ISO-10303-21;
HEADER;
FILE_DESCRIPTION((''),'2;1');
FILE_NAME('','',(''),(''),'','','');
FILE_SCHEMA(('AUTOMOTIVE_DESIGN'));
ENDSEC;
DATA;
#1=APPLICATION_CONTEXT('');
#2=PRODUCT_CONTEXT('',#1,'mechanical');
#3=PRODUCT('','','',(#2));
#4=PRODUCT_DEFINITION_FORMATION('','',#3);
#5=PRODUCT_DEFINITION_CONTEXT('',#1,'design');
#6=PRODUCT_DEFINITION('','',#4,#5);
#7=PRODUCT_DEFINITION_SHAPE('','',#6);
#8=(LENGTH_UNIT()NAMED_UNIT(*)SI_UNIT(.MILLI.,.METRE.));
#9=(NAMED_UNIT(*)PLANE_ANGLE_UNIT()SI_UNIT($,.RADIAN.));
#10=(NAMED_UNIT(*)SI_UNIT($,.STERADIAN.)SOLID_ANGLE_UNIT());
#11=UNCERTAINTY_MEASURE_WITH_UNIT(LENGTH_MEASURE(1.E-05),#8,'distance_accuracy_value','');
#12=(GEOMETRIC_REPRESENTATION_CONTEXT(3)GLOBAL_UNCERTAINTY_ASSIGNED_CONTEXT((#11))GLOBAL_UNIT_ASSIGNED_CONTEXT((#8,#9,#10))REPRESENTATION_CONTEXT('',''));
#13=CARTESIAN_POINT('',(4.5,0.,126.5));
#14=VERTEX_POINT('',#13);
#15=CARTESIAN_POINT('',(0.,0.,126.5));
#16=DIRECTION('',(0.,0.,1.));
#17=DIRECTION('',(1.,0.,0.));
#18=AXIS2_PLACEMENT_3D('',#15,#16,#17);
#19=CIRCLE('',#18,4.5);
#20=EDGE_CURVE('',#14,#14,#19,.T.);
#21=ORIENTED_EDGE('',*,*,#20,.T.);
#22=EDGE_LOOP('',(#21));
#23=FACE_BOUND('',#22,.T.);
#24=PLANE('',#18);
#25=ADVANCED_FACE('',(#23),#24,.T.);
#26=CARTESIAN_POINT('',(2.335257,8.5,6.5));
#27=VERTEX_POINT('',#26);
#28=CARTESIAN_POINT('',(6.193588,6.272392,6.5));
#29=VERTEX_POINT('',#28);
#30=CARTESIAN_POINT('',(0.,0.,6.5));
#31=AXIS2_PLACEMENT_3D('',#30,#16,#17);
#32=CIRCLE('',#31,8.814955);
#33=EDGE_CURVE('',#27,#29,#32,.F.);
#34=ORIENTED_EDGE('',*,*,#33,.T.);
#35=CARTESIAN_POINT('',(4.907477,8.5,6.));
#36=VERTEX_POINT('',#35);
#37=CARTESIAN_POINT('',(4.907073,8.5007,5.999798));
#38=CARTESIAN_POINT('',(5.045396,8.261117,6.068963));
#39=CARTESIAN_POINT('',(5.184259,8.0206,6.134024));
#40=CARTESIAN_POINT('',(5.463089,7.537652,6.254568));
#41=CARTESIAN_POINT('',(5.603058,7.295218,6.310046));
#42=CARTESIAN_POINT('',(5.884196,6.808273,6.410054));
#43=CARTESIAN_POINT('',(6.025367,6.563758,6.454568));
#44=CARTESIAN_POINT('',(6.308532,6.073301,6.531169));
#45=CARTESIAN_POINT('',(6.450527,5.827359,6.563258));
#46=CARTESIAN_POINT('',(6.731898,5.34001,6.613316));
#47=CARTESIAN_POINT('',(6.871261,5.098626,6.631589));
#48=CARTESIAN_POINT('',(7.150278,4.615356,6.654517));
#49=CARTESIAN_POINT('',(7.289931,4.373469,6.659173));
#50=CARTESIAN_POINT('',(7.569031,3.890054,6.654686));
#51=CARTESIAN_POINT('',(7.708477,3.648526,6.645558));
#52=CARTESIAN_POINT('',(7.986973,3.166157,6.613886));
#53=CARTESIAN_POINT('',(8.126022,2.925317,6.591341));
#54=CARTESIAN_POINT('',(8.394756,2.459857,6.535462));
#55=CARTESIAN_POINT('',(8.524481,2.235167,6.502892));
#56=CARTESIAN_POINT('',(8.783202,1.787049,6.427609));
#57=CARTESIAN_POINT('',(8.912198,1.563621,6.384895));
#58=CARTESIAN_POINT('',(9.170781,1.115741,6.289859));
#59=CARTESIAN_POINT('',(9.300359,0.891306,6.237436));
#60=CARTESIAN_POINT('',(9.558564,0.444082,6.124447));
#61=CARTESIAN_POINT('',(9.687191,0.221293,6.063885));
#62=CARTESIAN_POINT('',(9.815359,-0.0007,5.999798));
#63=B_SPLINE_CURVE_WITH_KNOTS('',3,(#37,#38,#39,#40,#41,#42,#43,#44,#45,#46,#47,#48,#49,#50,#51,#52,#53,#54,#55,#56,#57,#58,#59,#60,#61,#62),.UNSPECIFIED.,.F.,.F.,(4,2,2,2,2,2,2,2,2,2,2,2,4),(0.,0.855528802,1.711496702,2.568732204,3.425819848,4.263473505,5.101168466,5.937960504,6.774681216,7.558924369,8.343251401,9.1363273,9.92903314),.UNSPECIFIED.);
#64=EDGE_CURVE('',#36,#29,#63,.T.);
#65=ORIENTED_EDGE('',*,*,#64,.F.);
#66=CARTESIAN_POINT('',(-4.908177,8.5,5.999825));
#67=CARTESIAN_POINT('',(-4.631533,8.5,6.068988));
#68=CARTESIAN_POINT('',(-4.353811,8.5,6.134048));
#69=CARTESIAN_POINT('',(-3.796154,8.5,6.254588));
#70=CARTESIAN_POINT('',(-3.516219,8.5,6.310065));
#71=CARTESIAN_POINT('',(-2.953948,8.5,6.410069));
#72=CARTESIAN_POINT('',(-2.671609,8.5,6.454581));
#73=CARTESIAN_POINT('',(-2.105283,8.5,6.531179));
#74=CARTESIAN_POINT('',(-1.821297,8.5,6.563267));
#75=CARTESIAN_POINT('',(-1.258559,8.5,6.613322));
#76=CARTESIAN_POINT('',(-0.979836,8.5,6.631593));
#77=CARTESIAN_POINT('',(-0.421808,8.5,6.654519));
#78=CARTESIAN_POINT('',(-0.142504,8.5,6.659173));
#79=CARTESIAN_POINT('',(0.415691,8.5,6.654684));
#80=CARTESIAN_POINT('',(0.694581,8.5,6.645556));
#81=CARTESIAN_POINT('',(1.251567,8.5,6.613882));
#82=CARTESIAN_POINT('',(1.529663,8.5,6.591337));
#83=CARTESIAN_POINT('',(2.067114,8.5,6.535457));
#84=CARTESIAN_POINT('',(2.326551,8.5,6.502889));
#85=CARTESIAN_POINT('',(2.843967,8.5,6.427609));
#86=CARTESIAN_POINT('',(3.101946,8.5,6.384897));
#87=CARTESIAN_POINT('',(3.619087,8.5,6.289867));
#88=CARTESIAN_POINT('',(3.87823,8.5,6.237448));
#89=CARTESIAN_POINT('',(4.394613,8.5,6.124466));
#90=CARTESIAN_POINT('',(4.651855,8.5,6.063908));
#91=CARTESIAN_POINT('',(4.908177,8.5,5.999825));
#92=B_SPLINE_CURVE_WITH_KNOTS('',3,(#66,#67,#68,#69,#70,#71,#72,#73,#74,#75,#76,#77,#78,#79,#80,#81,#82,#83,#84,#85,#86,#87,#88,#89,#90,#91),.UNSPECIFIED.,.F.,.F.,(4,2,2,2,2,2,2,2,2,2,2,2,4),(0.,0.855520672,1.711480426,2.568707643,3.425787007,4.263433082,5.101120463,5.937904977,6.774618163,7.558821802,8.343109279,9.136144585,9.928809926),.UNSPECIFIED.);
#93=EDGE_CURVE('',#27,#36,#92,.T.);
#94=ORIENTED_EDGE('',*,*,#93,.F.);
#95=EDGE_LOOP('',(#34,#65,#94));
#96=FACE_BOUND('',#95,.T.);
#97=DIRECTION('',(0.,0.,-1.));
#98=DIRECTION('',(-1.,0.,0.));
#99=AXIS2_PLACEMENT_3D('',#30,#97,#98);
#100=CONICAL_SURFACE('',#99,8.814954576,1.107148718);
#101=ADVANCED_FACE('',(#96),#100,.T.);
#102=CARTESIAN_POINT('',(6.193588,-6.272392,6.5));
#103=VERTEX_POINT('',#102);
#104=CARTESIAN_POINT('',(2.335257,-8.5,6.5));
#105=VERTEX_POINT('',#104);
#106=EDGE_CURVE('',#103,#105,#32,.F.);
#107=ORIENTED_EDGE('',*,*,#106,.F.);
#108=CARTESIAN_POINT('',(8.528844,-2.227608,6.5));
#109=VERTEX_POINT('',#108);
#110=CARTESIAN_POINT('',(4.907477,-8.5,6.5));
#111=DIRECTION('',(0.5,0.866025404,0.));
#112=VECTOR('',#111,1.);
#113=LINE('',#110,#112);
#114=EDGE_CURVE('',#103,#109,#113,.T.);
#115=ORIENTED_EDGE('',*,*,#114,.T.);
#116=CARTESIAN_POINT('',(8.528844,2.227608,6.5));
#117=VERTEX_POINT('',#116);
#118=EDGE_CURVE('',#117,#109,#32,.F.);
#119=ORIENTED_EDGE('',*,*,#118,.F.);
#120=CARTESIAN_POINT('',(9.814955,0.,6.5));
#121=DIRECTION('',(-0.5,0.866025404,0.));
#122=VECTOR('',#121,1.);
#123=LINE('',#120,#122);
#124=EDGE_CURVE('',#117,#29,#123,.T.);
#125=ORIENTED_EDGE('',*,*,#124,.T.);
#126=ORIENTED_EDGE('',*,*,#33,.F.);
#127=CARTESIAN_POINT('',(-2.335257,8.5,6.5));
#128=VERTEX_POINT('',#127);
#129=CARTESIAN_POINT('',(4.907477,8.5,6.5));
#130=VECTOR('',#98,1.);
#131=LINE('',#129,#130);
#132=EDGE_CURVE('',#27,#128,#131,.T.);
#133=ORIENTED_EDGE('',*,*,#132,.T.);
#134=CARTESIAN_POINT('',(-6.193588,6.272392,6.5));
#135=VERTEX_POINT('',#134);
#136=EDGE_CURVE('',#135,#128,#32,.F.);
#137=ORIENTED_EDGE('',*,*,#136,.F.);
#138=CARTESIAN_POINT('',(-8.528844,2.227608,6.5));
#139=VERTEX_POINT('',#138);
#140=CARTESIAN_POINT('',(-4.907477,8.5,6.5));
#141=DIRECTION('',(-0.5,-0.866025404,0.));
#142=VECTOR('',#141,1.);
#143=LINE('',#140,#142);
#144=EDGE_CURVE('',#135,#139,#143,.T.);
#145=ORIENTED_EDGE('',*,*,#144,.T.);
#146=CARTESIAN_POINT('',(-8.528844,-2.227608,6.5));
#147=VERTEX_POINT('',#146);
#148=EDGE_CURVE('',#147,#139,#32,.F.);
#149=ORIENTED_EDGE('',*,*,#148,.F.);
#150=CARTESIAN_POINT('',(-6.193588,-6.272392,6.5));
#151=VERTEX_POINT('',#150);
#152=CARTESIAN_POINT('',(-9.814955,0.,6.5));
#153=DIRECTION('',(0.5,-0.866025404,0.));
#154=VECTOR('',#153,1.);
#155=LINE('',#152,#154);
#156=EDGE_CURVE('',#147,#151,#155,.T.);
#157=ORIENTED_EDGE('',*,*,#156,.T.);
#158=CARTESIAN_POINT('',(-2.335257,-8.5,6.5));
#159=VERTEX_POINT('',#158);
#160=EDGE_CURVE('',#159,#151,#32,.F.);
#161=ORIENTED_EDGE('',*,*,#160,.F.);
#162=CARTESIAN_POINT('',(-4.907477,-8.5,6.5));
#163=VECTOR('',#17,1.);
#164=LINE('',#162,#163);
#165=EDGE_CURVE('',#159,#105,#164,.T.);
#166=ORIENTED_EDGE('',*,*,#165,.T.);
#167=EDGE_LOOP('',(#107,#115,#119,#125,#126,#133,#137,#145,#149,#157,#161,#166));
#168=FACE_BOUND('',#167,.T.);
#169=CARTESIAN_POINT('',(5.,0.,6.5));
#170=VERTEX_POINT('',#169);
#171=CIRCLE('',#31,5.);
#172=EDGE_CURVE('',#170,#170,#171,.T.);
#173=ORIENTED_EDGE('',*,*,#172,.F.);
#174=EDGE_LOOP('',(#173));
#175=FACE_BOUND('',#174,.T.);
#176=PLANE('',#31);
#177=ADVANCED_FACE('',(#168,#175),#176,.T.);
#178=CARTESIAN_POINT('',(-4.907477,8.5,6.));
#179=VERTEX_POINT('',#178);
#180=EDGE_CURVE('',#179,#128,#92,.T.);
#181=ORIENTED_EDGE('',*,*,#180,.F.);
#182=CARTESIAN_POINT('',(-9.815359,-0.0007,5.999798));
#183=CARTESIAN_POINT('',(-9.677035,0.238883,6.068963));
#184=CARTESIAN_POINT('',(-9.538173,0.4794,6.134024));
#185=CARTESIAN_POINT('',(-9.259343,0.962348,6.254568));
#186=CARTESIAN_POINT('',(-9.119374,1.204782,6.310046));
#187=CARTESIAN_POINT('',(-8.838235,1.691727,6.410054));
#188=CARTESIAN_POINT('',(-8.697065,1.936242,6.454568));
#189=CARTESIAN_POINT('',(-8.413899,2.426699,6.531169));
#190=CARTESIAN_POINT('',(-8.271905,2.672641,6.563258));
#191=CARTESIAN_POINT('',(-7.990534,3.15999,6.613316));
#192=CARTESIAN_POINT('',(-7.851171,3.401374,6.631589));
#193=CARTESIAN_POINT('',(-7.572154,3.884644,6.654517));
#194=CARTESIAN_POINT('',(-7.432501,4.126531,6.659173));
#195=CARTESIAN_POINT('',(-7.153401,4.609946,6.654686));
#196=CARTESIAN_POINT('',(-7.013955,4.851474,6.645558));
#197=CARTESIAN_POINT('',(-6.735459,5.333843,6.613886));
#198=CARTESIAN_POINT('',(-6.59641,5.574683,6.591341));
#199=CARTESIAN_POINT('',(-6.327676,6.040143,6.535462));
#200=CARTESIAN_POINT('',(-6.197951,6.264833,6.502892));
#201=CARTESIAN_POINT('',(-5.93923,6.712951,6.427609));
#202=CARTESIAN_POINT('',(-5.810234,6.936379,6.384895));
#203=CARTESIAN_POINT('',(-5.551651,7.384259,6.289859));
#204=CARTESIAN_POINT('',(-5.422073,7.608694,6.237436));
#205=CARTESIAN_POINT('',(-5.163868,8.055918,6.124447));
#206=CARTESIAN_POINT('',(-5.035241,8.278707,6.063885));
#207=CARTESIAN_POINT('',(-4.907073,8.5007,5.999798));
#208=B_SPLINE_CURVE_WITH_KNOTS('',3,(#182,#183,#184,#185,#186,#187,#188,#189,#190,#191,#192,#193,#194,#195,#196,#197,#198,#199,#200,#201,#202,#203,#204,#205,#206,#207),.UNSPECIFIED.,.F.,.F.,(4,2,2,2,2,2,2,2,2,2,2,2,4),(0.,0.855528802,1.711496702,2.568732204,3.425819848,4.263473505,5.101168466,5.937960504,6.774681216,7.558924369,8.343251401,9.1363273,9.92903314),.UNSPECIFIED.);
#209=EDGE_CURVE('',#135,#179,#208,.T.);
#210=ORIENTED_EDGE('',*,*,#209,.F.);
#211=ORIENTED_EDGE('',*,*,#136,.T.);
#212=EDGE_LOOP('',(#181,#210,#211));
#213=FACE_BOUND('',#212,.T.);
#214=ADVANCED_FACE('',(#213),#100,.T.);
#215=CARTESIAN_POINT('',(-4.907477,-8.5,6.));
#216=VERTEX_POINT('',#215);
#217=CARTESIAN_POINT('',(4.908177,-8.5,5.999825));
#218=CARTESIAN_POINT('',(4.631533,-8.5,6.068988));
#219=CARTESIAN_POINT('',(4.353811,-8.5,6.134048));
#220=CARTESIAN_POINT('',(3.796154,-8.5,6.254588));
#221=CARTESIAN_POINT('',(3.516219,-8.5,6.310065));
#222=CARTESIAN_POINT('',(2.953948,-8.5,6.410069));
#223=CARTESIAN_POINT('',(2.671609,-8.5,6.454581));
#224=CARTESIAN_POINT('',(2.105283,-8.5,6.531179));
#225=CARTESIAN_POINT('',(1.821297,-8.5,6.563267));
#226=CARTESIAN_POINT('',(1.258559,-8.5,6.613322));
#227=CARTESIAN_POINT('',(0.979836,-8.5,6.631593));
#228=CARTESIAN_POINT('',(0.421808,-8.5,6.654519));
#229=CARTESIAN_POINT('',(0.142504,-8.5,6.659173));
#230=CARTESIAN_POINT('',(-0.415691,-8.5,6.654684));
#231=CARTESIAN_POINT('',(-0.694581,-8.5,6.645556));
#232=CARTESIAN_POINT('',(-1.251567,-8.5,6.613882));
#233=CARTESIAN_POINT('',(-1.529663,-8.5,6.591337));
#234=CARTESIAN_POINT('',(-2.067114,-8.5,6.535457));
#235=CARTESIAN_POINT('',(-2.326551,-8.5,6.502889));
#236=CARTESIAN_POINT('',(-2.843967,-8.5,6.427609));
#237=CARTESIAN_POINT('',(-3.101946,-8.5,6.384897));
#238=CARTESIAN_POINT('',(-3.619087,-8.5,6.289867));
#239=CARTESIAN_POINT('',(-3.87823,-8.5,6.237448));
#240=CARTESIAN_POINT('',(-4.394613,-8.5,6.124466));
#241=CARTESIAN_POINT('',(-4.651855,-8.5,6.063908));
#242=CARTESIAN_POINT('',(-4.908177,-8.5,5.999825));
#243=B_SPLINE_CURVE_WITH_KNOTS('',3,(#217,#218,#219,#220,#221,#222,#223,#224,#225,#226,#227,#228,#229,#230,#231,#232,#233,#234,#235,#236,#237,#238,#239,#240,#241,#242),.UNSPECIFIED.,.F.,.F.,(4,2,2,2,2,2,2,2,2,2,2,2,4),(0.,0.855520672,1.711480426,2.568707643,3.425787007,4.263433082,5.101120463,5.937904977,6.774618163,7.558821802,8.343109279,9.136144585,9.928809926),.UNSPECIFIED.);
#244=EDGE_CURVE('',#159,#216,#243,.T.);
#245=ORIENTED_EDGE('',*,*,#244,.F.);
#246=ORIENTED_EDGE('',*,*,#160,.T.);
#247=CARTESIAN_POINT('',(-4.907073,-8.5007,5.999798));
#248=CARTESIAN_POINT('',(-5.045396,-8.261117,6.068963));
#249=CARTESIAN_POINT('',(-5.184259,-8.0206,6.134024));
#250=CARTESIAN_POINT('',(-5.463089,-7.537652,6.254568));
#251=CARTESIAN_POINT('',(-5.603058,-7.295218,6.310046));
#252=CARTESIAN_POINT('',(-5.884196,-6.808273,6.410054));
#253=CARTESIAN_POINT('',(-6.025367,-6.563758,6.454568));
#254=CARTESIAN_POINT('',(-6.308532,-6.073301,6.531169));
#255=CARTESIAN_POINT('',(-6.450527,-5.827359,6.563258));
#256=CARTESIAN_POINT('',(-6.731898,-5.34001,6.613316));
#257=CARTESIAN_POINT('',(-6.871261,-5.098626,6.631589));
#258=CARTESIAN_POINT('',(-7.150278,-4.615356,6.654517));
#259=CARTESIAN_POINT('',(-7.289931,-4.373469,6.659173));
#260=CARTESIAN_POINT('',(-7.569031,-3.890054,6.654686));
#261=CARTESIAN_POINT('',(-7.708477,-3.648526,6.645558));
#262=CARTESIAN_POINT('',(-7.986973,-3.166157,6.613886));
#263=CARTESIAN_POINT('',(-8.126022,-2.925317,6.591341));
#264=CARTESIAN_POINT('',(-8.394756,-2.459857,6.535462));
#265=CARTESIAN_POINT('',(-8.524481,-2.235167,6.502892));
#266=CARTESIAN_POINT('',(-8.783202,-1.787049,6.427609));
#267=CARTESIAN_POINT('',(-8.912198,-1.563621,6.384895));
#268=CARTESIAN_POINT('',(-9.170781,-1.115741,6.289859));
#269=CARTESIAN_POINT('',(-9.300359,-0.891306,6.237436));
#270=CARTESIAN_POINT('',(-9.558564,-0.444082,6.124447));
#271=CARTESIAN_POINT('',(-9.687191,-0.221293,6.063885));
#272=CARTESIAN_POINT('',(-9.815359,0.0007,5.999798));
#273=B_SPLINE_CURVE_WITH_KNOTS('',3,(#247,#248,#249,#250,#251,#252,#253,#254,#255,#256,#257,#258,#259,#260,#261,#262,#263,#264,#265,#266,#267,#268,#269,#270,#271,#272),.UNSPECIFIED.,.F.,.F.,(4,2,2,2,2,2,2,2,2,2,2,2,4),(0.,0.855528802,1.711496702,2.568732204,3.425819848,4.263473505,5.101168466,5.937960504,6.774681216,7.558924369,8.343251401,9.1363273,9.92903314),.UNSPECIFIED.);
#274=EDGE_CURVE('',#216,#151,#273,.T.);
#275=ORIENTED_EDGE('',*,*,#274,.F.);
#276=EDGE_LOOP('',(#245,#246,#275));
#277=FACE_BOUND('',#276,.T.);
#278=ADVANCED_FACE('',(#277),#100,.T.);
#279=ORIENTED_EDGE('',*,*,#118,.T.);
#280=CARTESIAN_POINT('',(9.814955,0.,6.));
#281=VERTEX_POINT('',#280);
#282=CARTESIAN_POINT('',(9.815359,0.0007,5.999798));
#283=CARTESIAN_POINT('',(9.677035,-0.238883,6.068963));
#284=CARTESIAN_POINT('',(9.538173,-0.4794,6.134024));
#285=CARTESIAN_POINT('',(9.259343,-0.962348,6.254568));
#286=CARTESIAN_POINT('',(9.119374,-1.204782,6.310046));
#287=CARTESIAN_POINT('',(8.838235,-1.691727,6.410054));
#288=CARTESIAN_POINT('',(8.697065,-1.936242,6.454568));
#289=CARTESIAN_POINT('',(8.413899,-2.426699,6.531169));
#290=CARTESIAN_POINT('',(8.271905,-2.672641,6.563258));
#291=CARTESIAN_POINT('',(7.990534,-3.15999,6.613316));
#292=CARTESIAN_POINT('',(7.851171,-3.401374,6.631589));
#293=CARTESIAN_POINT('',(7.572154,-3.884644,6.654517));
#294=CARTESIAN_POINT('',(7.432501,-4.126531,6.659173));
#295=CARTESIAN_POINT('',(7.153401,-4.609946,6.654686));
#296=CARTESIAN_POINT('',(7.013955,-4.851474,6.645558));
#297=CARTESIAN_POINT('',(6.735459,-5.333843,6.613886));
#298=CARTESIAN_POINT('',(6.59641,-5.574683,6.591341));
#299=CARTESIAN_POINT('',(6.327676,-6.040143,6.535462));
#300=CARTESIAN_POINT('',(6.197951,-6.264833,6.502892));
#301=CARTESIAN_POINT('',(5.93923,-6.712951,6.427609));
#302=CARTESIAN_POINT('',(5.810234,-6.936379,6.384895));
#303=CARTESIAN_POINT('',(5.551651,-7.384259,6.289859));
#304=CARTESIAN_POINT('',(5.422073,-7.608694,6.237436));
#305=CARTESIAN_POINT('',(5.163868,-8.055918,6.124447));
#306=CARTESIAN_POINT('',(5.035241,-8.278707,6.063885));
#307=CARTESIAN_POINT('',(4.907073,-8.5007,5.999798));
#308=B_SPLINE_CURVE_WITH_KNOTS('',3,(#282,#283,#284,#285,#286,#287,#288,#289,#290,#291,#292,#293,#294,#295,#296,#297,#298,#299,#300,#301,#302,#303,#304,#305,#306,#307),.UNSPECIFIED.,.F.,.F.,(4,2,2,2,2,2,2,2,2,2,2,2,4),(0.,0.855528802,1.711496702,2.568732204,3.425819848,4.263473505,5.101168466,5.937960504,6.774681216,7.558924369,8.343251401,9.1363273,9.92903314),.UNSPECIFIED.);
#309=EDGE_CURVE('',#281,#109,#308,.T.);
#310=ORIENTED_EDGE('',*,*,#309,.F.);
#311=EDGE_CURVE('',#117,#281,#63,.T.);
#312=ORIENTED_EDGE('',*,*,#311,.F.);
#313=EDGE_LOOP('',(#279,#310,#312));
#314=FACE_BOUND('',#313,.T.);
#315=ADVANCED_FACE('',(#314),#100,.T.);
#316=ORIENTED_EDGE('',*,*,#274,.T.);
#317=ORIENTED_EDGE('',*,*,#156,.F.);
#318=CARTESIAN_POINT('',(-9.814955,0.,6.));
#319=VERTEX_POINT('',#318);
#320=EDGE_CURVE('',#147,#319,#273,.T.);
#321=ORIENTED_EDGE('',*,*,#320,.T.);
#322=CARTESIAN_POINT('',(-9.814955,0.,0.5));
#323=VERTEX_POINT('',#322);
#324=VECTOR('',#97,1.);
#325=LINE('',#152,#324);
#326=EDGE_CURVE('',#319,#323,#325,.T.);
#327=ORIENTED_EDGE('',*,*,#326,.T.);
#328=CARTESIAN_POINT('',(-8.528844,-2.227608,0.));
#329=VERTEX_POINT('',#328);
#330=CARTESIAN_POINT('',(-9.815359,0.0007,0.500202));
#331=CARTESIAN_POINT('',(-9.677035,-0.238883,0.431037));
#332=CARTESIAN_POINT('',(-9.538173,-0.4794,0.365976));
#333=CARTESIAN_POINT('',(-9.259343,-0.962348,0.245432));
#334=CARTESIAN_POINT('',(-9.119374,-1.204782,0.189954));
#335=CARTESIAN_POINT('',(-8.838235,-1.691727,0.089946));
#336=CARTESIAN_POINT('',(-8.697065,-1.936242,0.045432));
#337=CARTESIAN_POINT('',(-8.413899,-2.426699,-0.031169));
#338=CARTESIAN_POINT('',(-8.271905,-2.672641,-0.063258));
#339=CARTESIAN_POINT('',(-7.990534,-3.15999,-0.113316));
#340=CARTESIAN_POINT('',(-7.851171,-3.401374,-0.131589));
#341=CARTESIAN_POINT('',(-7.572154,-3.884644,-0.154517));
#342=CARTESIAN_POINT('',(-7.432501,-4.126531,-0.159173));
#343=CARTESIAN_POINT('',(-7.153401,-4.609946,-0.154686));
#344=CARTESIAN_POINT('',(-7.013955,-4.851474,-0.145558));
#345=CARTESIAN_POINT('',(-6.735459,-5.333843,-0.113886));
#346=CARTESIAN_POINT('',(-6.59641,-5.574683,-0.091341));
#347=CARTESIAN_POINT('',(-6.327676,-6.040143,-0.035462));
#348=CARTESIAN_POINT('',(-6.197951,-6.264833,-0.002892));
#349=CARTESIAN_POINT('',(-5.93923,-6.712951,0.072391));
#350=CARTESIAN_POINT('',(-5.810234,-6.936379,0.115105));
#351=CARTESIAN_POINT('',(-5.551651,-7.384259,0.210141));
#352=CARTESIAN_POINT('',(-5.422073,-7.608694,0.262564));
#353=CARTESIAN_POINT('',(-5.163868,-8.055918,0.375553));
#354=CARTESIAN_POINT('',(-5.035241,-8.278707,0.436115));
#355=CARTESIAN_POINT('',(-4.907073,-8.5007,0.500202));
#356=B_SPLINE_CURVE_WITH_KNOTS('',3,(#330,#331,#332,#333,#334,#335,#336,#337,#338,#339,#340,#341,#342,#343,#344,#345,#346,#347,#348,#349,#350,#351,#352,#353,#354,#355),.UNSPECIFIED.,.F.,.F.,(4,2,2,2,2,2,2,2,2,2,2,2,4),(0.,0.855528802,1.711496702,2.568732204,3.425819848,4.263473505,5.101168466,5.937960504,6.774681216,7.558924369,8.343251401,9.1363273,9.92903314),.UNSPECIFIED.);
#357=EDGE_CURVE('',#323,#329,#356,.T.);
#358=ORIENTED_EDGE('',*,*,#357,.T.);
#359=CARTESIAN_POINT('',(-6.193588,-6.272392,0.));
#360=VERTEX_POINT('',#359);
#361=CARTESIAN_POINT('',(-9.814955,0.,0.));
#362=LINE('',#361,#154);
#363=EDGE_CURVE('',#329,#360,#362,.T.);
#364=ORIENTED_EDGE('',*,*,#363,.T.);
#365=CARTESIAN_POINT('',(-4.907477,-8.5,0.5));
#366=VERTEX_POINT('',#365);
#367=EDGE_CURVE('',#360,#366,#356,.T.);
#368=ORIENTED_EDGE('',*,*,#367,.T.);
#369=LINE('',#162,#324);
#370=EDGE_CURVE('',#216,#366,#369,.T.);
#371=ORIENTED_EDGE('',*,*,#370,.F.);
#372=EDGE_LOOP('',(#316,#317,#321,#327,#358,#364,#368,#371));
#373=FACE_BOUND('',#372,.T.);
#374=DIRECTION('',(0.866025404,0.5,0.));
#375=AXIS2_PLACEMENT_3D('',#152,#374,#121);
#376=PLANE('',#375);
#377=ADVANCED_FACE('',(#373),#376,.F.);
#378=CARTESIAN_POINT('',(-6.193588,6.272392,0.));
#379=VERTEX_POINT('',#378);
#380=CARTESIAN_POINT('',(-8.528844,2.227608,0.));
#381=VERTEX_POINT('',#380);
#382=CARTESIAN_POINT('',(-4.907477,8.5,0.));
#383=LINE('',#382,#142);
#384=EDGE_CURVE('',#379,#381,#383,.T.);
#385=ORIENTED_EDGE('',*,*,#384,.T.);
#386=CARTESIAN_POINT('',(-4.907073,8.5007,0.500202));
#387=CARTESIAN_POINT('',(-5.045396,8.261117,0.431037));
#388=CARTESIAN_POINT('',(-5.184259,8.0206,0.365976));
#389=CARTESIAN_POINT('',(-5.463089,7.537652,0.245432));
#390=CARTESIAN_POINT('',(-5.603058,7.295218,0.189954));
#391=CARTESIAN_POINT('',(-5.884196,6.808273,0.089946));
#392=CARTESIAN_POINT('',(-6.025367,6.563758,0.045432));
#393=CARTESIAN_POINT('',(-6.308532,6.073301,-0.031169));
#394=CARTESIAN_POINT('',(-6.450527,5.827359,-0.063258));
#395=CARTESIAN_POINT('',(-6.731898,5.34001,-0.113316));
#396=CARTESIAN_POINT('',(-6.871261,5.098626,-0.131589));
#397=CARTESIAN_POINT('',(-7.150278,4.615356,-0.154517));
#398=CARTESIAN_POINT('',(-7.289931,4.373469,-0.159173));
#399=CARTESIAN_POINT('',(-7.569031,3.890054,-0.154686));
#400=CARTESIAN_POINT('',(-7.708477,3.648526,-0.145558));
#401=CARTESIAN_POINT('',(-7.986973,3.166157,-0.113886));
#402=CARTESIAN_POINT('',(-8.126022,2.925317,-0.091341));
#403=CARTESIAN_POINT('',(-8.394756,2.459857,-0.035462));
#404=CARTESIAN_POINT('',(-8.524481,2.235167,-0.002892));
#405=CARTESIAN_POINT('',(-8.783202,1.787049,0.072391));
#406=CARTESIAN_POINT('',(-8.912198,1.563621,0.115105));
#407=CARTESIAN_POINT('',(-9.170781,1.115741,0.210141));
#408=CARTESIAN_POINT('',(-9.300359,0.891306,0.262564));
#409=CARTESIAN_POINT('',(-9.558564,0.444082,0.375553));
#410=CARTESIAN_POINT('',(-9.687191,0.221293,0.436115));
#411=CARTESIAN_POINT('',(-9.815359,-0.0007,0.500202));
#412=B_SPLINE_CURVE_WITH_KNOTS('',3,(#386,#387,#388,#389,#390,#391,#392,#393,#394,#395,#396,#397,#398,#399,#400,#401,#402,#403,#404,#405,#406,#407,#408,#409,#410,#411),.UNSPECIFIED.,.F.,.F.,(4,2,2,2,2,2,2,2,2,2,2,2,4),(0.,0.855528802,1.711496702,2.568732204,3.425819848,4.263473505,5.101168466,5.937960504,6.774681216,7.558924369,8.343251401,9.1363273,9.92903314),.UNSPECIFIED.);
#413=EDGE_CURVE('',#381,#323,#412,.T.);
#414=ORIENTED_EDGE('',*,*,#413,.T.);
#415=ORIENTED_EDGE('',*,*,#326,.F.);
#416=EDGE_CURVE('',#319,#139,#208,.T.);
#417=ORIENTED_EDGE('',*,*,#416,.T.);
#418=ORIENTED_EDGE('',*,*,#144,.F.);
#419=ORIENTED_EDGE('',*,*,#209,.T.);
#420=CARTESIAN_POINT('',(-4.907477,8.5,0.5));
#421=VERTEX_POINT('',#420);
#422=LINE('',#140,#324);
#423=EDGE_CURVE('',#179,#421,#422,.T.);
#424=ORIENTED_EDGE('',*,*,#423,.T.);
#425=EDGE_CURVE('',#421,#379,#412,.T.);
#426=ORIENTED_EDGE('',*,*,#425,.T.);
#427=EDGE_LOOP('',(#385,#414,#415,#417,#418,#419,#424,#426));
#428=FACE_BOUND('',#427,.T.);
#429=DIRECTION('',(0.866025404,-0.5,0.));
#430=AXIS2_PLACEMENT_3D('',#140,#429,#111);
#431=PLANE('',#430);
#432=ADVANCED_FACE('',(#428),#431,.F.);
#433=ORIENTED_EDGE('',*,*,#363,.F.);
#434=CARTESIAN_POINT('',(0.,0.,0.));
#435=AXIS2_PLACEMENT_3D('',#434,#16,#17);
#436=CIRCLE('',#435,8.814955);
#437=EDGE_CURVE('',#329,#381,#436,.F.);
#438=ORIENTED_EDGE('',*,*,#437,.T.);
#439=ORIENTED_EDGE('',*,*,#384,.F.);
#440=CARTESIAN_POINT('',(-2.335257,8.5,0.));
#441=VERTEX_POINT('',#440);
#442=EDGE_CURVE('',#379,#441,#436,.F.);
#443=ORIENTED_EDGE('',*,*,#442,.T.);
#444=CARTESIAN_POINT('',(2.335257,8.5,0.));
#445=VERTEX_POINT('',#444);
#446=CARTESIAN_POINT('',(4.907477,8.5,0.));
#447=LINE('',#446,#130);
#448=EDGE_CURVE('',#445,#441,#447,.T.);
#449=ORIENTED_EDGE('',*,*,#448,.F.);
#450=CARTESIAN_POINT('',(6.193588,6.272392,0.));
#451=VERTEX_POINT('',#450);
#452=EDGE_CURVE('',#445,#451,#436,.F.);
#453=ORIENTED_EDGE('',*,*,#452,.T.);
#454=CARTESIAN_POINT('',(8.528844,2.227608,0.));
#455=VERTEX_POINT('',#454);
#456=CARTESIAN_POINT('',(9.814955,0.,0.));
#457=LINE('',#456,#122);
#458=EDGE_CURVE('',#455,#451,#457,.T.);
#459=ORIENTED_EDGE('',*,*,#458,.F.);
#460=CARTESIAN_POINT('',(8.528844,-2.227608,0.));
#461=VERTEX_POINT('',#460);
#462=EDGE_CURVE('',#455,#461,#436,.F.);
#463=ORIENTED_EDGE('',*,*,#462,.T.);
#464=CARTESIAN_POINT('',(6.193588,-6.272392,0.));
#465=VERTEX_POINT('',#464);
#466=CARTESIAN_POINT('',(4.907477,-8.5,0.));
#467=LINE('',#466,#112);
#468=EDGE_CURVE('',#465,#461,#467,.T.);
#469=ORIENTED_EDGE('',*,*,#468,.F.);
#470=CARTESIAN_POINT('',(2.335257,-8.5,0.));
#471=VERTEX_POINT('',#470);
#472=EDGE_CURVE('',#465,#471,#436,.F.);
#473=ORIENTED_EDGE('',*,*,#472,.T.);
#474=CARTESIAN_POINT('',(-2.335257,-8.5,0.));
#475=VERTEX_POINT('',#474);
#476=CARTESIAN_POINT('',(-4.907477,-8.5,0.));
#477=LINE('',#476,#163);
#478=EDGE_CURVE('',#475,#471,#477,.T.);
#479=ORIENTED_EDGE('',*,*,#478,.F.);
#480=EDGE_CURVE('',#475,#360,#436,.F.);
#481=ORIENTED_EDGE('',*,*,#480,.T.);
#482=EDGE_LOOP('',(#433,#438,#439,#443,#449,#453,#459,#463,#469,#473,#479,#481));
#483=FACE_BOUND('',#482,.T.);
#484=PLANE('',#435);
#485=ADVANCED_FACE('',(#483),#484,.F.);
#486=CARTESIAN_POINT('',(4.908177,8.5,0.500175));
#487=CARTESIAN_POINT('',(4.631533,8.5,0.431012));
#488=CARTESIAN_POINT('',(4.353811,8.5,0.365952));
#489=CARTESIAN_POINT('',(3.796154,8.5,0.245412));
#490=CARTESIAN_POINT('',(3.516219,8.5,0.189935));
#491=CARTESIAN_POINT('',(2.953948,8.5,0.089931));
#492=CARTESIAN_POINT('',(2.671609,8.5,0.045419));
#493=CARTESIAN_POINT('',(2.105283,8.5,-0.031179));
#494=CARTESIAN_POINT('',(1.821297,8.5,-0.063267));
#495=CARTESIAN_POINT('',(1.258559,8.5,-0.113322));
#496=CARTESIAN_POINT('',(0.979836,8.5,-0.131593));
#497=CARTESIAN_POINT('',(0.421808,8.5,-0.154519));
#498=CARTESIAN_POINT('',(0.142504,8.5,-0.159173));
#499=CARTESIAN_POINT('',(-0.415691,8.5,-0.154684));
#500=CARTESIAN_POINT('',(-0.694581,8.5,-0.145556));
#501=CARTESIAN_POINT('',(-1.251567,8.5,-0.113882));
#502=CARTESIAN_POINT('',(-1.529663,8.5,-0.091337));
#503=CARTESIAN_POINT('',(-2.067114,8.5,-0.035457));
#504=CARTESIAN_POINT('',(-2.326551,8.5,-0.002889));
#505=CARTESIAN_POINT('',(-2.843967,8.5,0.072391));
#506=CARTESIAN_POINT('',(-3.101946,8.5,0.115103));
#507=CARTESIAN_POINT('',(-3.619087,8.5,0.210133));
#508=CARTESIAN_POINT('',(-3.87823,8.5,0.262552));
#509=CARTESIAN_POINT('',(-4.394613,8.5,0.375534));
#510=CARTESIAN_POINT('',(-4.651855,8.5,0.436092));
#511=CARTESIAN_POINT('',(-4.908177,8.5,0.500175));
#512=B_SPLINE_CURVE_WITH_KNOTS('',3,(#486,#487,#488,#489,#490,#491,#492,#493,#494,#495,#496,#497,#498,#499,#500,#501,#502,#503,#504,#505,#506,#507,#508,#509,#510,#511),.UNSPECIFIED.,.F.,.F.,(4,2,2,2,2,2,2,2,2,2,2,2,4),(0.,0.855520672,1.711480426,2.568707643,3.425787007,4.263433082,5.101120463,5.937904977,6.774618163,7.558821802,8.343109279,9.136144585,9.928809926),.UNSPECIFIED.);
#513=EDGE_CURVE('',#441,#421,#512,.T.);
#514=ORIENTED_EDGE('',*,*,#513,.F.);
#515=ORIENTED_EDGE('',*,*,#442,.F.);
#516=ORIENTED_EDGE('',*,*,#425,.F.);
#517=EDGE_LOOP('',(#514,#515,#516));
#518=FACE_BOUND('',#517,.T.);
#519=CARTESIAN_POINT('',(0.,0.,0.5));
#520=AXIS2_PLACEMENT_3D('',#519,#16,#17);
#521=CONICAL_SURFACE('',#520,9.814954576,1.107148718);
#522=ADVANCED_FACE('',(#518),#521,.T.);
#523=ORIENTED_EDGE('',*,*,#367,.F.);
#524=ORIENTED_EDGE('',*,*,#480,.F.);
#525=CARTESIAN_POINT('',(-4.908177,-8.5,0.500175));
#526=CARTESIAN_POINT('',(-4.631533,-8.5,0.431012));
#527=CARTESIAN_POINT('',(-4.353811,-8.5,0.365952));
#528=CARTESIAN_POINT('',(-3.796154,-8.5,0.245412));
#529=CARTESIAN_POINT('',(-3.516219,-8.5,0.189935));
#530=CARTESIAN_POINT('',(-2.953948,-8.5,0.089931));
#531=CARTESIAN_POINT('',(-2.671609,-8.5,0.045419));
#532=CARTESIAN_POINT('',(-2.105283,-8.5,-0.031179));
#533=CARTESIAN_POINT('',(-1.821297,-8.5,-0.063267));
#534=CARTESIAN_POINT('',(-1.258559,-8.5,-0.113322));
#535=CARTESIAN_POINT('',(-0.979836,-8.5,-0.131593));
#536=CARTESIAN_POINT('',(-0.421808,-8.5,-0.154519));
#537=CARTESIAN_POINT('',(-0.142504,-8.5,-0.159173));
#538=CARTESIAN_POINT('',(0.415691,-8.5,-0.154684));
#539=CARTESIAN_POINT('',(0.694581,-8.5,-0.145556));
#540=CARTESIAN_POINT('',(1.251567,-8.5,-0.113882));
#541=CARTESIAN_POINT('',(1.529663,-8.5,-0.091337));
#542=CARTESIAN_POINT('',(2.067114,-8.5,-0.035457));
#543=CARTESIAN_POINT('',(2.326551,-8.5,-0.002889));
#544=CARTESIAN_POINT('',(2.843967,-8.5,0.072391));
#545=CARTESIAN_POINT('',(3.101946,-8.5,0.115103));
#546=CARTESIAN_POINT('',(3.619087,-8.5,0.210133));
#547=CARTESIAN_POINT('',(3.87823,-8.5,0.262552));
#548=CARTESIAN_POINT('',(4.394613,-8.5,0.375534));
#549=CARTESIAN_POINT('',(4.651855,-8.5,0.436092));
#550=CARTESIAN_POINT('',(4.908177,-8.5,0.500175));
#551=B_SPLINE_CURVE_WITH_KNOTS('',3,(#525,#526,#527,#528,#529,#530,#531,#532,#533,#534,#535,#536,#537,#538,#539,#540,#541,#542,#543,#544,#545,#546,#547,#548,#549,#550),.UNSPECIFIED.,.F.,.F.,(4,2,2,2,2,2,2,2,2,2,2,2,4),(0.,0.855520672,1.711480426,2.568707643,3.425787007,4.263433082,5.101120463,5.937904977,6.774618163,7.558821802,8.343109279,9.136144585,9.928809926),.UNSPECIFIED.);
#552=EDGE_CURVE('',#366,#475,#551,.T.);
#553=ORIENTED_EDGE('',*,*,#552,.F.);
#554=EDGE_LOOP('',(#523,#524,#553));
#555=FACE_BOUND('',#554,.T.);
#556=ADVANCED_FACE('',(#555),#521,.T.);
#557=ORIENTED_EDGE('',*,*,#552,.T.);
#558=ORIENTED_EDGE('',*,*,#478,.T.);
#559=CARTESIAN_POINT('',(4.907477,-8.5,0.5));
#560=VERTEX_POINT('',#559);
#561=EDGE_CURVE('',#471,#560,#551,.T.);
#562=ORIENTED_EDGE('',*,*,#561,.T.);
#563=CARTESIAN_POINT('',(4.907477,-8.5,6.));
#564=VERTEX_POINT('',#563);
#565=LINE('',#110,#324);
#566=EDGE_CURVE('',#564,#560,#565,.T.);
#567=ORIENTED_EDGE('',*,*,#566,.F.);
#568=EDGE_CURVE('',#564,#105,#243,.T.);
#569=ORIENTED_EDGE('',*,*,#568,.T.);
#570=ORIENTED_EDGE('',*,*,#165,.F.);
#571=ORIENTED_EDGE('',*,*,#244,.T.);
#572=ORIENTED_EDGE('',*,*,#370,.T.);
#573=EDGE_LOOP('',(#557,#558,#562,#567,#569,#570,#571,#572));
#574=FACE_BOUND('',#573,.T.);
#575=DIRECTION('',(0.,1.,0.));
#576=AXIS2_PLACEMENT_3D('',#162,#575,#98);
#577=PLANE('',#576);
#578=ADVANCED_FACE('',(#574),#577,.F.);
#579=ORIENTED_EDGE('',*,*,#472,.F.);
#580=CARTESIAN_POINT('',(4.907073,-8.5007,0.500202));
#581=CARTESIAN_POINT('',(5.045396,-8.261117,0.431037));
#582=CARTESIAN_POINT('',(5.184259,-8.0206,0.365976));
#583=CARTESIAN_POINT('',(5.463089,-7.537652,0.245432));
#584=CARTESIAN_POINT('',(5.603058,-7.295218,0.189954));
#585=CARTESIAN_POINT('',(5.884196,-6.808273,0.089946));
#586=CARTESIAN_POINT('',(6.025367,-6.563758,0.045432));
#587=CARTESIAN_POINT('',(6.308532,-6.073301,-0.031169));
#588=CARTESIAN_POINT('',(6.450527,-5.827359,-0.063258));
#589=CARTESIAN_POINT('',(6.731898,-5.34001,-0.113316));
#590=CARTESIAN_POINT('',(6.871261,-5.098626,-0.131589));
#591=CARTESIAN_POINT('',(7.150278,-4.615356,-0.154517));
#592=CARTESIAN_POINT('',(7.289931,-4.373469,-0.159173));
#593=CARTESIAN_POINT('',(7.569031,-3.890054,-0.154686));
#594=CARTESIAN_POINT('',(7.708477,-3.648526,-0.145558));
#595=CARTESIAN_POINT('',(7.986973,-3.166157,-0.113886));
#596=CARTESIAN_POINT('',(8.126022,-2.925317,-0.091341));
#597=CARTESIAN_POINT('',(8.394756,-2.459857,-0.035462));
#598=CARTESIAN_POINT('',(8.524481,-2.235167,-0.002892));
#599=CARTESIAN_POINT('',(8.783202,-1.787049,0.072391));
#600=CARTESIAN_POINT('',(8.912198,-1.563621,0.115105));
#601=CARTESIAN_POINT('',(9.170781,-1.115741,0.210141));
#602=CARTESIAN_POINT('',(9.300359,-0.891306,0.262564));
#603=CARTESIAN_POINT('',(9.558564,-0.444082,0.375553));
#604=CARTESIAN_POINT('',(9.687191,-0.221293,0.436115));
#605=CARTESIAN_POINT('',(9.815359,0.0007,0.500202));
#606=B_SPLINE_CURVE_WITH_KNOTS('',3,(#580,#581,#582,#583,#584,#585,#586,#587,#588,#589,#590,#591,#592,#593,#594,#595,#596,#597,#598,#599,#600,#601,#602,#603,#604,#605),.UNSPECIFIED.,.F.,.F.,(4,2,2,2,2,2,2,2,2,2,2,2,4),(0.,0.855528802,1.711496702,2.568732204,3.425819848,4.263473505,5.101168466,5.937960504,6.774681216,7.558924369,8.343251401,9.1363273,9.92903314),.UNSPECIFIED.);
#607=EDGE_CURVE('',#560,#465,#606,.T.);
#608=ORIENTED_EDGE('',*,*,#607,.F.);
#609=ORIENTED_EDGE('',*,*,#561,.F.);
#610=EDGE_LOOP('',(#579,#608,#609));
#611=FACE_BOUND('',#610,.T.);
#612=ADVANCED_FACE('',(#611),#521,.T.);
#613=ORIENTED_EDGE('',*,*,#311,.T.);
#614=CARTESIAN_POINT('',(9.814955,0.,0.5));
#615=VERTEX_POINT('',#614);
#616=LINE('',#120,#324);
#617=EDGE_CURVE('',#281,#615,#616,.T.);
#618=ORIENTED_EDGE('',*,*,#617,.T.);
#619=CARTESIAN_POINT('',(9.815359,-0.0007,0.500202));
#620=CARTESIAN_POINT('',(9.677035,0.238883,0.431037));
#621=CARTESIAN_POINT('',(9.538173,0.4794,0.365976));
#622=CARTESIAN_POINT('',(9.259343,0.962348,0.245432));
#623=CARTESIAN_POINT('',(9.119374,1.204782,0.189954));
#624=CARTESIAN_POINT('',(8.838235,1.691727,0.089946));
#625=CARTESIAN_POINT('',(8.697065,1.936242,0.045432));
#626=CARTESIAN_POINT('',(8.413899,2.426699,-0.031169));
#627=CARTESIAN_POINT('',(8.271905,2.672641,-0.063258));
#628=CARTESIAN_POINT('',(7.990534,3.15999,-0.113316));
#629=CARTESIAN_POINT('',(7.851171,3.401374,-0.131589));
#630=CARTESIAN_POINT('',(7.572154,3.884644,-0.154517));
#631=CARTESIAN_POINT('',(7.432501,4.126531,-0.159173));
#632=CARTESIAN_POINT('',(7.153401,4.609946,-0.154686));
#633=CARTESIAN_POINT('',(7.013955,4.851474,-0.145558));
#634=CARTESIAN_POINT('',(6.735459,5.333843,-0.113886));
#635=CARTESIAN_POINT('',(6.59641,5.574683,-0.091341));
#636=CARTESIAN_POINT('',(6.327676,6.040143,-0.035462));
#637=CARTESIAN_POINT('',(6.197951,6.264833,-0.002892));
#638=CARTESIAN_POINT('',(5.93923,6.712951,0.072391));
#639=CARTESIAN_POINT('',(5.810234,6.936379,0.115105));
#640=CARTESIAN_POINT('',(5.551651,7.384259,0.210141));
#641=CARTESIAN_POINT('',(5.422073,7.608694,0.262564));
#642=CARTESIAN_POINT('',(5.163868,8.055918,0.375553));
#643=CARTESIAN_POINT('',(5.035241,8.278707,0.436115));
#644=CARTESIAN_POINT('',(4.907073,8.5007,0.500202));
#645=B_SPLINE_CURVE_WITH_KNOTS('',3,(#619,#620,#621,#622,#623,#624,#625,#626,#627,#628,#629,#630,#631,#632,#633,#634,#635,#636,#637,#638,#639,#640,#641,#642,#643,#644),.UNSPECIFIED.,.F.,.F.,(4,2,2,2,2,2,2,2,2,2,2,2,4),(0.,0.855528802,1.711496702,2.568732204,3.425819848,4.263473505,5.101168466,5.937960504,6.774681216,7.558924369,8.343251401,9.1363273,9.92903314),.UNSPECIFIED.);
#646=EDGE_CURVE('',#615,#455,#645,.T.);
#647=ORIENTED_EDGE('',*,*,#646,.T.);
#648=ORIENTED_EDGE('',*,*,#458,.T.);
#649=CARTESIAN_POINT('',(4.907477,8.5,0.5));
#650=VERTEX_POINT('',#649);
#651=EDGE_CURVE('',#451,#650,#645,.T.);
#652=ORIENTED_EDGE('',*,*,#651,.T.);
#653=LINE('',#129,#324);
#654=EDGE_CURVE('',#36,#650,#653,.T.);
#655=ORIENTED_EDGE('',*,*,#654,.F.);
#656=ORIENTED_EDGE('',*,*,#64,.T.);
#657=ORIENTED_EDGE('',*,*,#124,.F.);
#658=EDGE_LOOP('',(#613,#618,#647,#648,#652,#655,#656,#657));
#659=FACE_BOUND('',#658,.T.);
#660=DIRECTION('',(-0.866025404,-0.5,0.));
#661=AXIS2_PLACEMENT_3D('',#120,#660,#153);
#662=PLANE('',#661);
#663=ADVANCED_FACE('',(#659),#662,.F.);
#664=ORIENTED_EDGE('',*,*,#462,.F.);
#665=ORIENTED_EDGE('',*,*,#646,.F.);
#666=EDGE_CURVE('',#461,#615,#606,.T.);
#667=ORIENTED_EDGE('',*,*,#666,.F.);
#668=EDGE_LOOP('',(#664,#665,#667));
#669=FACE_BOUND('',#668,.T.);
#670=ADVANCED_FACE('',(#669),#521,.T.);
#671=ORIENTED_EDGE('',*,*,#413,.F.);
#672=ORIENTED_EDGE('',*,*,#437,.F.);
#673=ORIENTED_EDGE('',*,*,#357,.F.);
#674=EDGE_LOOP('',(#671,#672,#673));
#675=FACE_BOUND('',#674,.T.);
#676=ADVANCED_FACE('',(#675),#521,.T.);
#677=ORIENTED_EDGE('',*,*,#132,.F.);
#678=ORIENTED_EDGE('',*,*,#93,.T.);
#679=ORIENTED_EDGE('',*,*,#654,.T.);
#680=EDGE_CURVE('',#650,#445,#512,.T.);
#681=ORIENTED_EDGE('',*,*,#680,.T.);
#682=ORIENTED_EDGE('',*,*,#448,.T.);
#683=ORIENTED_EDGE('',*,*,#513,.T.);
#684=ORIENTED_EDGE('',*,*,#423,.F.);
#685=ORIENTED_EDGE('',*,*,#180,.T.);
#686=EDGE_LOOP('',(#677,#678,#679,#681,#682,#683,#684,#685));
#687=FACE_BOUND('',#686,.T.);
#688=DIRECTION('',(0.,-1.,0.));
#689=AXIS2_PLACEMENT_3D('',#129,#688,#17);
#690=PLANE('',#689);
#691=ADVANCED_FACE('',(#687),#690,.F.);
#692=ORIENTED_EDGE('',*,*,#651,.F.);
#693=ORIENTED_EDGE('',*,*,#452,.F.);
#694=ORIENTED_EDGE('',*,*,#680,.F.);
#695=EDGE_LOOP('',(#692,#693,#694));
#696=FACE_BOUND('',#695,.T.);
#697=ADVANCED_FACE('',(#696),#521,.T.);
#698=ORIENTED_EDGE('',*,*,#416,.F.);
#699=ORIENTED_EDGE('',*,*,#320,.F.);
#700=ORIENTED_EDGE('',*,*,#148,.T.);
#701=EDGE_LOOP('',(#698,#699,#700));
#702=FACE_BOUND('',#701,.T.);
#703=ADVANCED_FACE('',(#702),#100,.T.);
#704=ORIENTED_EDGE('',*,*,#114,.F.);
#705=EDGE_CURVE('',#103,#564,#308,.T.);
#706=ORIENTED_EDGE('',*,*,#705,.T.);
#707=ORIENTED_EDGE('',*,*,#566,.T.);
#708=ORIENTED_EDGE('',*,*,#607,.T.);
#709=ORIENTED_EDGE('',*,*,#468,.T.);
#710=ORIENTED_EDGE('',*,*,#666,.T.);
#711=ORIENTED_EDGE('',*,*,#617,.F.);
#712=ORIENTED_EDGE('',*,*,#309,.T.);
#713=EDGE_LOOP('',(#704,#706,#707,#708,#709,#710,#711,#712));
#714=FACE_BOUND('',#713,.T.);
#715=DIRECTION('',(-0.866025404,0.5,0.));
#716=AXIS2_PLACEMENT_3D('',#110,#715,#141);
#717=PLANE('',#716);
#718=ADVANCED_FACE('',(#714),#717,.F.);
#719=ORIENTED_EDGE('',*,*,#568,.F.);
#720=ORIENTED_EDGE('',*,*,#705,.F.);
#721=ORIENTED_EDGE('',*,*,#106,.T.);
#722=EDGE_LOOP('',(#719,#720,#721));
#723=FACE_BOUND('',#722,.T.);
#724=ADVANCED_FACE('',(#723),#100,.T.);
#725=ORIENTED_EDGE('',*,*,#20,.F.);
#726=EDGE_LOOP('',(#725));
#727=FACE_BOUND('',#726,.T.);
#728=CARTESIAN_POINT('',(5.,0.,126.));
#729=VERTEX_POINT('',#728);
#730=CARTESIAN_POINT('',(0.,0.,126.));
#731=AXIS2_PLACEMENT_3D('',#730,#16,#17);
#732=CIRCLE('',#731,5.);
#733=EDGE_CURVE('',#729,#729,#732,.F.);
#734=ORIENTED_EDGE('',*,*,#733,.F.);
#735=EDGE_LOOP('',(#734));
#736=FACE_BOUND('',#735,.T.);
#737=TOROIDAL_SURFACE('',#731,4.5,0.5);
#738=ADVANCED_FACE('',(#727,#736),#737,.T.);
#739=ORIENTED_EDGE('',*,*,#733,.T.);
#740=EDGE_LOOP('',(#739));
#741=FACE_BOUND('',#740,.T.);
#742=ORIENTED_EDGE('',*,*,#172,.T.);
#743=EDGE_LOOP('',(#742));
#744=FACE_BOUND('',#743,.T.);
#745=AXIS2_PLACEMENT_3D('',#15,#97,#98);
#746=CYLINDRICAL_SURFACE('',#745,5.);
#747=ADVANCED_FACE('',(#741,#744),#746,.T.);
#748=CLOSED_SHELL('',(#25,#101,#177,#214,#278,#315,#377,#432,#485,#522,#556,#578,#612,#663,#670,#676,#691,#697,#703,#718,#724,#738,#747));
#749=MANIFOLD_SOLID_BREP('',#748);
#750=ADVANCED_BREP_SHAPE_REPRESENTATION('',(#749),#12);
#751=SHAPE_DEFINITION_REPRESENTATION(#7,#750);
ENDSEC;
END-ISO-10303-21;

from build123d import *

# Parameters (mm, degrees)
Y_KSEKLIK_EKSTR_ZYON1_DEPTH = 6.5
IZIM2_R                     = 5
Y_KSEKLIK_EKSTR_ZYON2_DEPTH = 120
RADYUS1_R                   = 0.5


with BuildPart() as part:
    # Çizim1 → Yükseklik-Ekstrüzyon1 (new body)
    with BuildSketch(Plane.XY):
        Polygon((9.814954576, 0), (4.907477288, 8.5), (-4.907477288, 8.5), (-9.814954576, 0), (-4.907477288, -8.5), (4.907477288, -8.5), align=None)
    extrude(amount=Y_KSEKLIK_EKSTR_ZYON1_DEPTH)

    # Çizim2 → Yükseklik-Ekstrüzyon2 (add)
    with BuildSketch(Plane.XY.offset(6.5)):
        Circle(IZIM2_R)
    extrude(amount=Y_KSEKLIK_EKSTR_ZYON2_DEPTH)

    # Çizim3 → Kes-Döndür1 (revolve, cut)
    with BuildSketch(Plane(origin=(0, 0, 0), x_dir=(1, 0, 0), z_dir=(0, 1, 0))):
        Polygon((-9.814954576, 0), (-8.814954576, 0), (-9.814954576, -0.5), align=None)
        Polygon((-9.814954576, -6.5), (-9.814954576, -6), (-8.814954576, -6.5), align=None)
    revolve(axis=Axis((0, 0, 0), (0, 0, 1)), mode=Mode.SUBTRACT)

    # Radyus1
    radyus1_edges = [part.edges().sort_by_distance(p)[0] for p in [
        (-5, 0, 126.5),
    ]]
    fillet(radyus1_edges, radius=RADYUS1_R)


solid = part.part
